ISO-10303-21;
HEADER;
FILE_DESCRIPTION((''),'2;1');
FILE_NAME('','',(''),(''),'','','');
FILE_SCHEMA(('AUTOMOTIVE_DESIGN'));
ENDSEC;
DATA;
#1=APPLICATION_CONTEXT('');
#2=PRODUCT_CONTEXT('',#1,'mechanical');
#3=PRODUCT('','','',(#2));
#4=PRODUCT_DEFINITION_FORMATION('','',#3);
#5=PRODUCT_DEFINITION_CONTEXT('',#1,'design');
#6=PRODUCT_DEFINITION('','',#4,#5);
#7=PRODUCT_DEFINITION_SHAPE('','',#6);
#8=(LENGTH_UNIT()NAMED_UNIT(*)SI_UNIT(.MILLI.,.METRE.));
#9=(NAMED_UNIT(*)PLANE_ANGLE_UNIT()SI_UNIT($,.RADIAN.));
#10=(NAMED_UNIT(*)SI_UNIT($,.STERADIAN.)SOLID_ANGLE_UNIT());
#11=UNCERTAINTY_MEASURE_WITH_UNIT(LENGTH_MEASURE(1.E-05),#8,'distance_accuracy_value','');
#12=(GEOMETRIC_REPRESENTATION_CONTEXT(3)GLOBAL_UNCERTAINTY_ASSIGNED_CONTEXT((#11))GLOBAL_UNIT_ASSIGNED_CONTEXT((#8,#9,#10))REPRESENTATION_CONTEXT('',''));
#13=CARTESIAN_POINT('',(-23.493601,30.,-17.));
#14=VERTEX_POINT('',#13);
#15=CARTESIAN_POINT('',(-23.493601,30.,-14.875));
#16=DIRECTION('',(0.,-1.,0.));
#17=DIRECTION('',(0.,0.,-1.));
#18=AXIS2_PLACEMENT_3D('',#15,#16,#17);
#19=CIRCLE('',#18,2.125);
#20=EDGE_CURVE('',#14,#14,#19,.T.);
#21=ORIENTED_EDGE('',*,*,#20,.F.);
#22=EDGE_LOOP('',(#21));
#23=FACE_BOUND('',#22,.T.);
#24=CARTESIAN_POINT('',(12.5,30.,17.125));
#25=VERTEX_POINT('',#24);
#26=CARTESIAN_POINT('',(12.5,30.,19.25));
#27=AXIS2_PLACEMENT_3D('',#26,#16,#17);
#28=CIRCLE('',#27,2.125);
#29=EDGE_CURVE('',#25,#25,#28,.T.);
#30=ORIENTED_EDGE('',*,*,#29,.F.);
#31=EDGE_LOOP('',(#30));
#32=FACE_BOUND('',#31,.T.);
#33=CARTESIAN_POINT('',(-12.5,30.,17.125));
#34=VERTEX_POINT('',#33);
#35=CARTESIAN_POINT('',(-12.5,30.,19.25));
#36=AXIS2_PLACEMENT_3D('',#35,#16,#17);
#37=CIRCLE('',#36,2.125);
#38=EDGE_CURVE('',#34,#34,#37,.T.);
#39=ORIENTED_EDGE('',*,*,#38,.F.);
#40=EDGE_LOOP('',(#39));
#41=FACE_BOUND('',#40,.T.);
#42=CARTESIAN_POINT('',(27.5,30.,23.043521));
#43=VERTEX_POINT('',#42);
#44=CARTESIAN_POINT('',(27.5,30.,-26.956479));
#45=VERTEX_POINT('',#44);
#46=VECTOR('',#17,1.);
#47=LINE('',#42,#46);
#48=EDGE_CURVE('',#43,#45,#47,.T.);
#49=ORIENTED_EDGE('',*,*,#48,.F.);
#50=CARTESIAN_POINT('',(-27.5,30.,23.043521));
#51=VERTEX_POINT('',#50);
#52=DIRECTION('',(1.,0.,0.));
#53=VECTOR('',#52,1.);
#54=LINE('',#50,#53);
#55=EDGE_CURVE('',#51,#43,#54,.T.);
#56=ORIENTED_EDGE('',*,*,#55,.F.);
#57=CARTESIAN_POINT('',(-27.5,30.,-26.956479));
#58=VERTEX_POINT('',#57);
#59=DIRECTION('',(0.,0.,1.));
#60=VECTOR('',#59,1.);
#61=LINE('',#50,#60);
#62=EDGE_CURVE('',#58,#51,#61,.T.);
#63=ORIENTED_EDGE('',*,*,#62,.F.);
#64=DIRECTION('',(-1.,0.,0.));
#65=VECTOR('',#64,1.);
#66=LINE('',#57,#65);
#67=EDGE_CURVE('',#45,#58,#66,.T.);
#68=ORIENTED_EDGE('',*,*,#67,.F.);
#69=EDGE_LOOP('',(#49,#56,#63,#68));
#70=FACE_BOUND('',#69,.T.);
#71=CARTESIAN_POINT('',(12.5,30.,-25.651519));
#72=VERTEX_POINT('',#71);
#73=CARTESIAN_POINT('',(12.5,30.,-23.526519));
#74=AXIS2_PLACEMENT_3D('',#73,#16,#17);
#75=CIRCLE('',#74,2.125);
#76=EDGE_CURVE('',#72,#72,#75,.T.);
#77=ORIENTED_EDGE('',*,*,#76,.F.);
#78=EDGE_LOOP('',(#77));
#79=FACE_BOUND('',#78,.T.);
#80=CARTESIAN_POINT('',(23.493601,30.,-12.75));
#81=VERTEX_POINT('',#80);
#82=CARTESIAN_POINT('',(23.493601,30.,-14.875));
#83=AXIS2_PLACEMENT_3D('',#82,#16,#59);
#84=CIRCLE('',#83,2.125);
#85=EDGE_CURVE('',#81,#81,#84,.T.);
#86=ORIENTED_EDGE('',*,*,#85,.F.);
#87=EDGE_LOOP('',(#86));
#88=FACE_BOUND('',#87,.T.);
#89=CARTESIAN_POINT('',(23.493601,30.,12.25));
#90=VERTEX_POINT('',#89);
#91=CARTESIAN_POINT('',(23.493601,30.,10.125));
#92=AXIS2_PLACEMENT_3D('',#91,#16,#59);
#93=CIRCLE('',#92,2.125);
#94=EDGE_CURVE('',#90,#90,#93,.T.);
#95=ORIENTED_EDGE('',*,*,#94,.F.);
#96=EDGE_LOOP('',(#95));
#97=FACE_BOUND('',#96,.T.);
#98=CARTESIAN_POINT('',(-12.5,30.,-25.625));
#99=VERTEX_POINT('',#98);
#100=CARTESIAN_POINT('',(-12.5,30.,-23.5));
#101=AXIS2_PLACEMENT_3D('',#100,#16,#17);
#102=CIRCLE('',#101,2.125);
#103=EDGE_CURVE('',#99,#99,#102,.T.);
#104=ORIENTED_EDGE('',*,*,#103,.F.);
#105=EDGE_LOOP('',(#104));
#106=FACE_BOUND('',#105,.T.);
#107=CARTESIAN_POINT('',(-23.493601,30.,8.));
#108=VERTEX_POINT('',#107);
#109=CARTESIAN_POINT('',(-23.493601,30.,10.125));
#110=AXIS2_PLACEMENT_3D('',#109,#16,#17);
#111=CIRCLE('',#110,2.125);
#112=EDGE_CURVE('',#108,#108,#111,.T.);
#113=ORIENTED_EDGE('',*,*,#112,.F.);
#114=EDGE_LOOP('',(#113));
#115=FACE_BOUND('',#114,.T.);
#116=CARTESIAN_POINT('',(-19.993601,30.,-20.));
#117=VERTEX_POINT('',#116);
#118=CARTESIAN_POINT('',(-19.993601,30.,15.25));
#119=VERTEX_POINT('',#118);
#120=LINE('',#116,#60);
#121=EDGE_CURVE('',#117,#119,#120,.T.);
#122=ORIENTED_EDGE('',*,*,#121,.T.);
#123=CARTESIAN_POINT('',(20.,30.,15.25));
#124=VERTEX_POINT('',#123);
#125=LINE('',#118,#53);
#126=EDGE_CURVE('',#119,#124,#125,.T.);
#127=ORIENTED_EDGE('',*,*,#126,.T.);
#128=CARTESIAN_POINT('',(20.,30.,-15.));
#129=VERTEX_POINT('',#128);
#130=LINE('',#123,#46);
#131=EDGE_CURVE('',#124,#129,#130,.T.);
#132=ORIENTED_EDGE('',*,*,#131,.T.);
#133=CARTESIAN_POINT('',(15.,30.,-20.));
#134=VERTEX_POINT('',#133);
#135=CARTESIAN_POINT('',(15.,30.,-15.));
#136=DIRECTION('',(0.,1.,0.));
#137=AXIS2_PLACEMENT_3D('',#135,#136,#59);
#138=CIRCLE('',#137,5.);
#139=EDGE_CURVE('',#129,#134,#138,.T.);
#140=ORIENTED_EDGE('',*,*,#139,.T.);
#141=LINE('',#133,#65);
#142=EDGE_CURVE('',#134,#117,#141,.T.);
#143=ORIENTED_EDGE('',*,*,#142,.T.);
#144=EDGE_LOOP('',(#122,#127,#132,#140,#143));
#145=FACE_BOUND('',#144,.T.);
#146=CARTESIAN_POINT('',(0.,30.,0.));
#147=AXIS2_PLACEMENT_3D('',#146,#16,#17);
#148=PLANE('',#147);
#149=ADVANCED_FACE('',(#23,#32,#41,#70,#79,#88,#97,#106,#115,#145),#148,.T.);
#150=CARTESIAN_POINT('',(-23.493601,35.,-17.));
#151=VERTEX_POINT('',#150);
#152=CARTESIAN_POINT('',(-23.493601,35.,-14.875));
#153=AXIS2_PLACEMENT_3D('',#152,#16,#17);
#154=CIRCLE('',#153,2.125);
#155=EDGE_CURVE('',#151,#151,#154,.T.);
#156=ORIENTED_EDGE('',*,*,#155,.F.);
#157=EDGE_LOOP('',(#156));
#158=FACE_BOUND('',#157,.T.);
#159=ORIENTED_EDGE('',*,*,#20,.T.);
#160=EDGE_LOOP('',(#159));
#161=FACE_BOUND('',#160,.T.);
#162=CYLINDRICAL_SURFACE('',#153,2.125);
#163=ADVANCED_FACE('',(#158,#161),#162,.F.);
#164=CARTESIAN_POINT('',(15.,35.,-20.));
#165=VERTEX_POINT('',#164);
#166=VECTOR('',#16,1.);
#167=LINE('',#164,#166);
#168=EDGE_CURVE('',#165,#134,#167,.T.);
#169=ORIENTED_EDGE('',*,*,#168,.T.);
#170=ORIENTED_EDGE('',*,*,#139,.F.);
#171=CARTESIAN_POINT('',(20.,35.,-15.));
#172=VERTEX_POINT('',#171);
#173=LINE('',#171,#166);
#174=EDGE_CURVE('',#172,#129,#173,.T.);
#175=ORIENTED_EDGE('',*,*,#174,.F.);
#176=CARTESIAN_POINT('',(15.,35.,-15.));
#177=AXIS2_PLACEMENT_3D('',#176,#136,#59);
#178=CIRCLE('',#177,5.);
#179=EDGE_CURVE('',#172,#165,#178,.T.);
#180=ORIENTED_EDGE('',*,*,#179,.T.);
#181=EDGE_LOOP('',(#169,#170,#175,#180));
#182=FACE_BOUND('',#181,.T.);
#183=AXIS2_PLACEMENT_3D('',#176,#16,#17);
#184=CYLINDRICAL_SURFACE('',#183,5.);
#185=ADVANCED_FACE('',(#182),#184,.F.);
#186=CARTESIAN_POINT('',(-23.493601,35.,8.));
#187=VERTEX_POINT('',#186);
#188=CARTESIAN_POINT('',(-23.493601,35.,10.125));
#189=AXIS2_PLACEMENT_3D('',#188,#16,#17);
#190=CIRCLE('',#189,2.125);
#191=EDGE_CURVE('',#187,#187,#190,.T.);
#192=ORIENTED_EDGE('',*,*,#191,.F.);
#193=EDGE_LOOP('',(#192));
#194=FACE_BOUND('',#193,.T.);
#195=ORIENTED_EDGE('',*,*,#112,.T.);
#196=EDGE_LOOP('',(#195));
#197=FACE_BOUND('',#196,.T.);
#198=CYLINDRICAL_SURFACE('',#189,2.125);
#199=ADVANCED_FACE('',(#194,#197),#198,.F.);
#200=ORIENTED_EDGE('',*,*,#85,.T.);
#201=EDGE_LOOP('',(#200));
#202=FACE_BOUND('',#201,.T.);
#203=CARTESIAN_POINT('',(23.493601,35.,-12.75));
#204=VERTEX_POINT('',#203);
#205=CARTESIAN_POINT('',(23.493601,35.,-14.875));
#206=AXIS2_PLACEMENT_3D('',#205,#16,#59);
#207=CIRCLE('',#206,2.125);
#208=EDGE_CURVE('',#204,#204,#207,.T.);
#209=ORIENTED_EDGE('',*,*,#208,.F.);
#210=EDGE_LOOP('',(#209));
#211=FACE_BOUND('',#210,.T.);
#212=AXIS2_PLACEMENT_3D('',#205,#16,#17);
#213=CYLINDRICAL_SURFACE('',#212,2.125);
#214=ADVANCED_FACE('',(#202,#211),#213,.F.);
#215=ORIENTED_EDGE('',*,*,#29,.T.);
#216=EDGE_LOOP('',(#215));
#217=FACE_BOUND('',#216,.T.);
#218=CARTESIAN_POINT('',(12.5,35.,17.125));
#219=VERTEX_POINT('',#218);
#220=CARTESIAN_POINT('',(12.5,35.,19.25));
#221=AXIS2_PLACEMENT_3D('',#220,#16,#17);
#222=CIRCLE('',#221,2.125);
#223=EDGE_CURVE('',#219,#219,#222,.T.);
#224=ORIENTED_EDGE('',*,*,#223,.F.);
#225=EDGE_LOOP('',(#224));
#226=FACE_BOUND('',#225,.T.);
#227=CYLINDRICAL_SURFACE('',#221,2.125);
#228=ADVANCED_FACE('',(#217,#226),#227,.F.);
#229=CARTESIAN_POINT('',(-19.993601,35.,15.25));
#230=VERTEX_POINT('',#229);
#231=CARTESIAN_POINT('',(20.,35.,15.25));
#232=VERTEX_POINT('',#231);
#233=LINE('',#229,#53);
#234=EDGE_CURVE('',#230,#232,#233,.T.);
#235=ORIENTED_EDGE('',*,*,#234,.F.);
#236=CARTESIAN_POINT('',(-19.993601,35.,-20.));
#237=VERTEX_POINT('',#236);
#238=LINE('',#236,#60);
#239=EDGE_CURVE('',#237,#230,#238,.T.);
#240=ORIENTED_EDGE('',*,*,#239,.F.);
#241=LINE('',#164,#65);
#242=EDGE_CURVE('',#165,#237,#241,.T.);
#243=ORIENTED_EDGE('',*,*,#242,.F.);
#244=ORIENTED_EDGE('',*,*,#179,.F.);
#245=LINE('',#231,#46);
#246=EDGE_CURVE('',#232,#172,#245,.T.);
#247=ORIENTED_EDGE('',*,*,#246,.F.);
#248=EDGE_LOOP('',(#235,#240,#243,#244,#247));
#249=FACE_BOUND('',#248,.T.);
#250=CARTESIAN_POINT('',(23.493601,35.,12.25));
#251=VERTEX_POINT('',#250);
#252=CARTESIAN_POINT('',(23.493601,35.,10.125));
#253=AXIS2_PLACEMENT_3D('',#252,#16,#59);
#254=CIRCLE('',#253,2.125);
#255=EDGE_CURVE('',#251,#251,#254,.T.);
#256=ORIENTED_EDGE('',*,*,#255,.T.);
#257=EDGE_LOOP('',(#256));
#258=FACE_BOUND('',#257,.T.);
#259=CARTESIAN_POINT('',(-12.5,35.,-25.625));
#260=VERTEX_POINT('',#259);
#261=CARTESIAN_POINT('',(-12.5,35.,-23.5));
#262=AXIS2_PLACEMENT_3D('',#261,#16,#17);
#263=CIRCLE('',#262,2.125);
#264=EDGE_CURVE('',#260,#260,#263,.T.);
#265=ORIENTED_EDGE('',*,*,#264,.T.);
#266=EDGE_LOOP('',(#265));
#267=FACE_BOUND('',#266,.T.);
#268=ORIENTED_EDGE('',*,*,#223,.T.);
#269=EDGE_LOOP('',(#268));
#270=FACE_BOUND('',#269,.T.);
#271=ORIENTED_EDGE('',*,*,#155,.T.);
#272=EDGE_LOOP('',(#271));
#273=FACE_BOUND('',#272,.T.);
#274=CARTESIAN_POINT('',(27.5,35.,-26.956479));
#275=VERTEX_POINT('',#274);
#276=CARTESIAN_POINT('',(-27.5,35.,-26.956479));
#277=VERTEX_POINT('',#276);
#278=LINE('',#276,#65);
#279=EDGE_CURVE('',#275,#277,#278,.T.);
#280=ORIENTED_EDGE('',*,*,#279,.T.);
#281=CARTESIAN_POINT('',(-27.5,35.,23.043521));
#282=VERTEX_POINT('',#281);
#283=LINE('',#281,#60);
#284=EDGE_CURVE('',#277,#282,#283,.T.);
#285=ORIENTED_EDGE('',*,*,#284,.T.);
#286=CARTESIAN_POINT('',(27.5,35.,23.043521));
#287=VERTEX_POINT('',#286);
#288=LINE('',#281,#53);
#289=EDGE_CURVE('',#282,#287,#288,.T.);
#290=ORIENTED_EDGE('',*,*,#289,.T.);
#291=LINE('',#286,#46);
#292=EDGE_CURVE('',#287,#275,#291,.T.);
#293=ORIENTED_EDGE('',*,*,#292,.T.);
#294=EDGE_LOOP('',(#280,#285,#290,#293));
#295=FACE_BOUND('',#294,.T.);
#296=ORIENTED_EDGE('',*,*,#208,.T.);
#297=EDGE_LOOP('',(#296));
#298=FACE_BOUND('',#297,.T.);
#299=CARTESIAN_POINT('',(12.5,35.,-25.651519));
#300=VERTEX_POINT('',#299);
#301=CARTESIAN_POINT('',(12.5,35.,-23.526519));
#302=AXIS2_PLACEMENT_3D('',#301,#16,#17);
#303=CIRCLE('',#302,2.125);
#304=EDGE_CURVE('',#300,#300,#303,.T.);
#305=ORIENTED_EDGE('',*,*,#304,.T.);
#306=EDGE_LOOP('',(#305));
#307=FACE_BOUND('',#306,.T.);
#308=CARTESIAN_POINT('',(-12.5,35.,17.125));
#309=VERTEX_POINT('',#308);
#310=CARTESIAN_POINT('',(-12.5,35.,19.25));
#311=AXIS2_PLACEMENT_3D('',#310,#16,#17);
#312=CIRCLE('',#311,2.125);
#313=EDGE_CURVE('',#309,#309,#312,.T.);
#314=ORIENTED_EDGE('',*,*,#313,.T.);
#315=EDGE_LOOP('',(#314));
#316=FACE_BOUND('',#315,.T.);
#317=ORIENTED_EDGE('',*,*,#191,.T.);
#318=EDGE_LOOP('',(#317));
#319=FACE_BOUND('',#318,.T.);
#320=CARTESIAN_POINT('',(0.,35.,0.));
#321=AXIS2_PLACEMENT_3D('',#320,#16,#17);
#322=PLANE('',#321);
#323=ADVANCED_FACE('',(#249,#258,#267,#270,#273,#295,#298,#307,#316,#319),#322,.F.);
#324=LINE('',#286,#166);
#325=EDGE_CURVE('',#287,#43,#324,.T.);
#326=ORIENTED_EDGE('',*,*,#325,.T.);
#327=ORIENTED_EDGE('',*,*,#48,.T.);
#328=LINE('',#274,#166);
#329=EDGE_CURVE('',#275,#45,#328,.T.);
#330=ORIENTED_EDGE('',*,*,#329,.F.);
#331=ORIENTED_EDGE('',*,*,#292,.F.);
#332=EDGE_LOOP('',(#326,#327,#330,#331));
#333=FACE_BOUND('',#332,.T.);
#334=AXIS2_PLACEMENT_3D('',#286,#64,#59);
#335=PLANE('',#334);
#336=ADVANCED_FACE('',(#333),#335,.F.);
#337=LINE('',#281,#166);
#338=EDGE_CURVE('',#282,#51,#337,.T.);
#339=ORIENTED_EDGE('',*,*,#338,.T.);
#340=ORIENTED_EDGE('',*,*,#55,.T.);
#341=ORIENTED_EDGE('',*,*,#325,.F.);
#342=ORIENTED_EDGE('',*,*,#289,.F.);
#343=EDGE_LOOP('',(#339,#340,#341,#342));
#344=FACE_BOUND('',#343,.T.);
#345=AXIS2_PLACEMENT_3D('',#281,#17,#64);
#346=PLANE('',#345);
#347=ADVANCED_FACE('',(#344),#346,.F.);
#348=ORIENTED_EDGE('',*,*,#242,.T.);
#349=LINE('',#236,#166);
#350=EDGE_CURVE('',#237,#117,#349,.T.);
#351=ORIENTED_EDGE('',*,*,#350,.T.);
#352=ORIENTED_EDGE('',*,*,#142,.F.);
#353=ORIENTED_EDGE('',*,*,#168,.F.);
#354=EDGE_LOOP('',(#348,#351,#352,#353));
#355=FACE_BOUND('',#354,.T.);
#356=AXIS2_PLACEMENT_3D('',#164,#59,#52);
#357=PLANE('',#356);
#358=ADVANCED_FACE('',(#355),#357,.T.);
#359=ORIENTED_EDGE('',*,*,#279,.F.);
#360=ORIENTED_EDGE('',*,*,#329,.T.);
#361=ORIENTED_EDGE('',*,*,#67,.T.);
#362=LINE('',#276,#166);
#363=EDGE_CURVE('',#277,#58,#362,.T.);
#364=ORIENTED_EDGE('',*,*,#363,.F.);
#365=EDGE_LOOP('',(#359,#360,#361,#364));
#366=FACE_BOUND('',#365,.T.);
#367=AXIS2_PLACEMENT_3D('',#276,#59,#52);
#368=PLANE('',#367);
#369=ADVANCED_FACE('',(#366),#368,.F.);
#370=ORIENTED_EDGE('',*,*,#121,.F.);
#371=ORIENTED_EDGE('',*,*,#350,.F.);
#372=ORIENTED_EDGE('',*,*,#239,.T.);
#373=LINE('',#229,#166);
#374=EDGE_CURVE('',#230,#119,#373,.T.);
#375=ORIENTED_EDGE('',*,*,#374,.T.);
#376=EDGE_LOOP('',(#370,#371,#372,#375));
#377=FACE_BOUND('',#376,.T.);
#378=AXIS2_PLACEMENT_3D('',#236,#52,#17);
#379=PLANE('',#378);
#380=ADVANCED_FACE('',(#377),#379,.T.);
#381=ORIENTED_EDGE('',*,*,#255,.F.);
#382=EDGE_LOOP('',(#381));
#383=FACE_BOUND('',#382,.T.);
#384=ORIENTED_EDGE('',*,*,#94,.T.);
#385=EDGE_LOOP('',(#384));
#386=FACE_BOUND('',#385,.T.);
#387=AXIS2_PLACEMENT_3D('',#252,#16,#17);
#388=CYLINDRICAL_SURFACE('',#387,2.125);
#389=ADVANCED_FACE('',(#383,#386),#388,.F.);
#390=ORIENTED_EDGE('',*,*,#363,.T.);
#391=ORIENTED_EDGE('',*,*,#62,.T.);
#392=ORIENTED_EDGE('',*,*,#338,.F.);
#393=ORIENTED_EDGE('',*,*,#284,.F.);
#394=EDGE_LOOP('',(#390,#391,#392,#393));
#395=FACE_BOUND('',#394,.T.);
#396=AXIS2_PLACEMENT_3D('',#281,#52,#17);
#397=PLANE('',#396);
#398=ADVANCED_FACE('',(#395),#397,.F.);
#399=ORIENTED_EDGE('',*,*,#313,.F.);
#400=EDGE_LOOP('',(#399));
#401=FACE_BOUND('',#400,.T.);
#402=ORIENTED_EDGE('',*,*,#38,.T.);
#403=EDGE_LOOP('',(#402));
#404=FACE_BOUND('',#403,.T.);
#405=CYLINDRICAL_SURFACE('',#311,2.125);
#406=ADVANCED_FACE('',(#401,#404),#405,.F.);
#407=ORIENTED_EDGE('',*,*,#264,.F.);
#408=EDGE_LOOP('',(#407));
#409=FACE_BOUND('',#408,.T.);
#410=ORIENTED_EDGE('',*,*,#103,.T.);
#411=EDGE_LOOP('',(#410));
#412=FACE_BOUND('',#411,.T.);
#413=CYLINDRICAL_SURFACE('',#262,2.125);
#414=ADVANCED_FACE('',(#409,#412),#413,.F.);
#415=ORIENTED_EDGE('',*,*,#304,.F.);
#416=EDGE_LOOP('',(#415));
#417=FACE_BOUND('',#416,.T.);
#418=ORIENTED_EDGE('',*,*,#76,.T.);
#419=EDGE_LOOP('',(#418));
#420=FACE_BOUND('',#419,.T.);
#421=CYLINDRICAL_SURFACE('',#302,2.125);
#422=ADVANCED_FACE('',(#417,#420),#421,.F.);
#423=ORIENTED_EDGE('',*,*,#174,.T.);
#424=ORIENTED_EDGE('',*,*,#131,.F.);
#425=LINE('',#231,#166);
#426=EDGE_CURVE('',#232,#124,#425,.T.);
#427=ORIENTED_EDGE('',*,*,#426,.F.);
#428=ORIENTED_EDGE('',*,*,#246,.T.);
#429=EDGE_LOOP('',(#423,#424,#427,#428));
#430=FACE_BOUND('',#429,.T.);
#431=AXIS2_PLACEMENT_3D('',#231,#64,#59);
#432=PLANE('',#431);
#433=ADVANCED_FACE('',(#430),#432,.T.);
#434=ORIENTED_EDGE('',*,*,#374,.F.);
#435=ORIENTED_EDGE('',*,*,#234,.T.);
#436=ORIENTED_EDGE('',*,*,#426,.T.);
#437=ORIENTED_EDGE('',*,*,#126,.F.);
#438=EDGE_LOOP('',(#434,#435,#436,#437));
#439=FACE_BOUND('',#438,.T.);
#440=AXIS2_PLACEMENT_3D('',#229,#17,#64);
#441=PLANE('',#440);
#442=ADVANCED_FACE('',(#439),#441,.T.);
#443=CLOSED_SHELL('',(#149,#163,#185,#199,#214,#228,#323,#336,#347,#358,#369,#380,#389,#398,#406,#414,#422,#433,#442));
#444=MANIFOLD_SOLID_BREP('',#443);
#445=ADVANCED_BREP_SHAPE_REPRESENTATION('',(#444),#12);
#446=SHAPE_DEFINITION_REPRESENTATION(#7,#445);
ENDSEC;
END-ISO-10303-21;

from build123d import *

# Parameters (mm, degrees)
CROQUIS1_R                              = 15.25
CROQUIS1_R_2                            = 2.125
SOPORTE_CAJA_REDUCTORA_DEPTH            = 20
CROQUIS3_R                              = 2.125
CORTAR_EXTRUIR1_DEPTH                   = 51.423828692
REDONDEO1_R                             = 5
BOSS_EXTRUDE1_DEPTH                     = 20
CUT_EXTRUDE1_REACH                      = 55.852
SKETCH2_R                               = 1.625
CUT_EXTRUDE2_DEPTH                      = 2
SKETCH4_R                               = 1.625
CUT_EXTRUDE3_DEPTH                      = 63.291652731
CUT_EXTRUDE4_START                      = -4.5
CUT_EXTRUDE4_DEPTH                      = 2
CROQUIS6_W                              = 4.75
CROQUIS6_H                              = 4.75
CORTAR_EXTRUIR17_DEPTH                  = 42.231056256
CROQUIS7_W                              = 60
CROQUIS7_H                              = 20
CORTAR_EXTRUIR18_DEPTH                  = 51.423828692
SALIENTE_EXTRUIR2_DEPTH                 = 49
SOPORTE_START                           = -15
SOPORTE_MOTOR_DEPTH                     = 15
CROQUIS12_R                             = 2.125
AGUJEROS_DE_SUJECION_A_BASE_DEPTH       = 84.087679592
TUERCA_START                            = -4
TUERCA_AGUJERO_DE_SUJECION_A_BASE_DEPTH = 10
SALIENTE_EXTRUIR4_DEPTH                 = 15
CORTAR_EXTRUIR19_DEPTH                  = 25
CROQUIS14_W                             = 50
CROQUIS14_H                             = 118
CORTAR_EXTRUIR22_DEPTH                  = 146.556045907
CROQUIS15_W                             = 10
CROQUIS15_H                             = 7
CORTAR_EXTRUIR23_DEPTH                  = 42.231056256
CORTAR_EXTRUIR24_DEPTH                  = 42.231056256
CROQUIS18_W                             = 40
CROQUIS18_H                             = 10
CORTAR_EXTRUIR25_DEPTH                  = 44.27311521
SALIENTE_EXTRUIR5_DEPTH                 = 10
CROQUIS20_R                             = 1
CORTAR_EXTRUIR26_DEPTH                  = 49.229270158
CORTAR_EXTRUIR27_REACH                  = 62.959
CORTAR_EXTRUIR27_END_RADIUS             = 15.25
CROQUIS21_R                             = 1.625
CROQUIS22_R                             = 2.125
CROQUIS22_R_2                           = 1
SALIENTE_EXTRUIR6_DEPTH                 = 10
CROQUIS23_R                             = 1.625
CORTAR_EXTRUIR28_DEPTH                  = 52.269508521
CORTAR_EXTRUIR29_START                  = -3
CORTAR_EXTRUIR29_DEPTH                  = 10
SALIENTE_EXTRUIR7_DEPTH                 = 10
CORTAR_EXTRUIR30_REACH                  = 72.235
CROQUIS27_R                             = 1.625
CORTAR_EXTRUIR31_REACH                  = 75.235
CORTAR_EXTRUIR31_START                  = -3
CORTAR_EXTRUIR32_REACH                  = 58.612
CROQUIS29_R                             = 1.625
CORTAR_EXTRUIR33_REACH                  = 61.112
CORTAR_EXTRUIR33_START                  = -2.5
CROQUIS35_W                             = 13.305418987
CROQUIS35_H                             = 6.826864192
CORTAR_EXTRUIR34_DEPTH                  = 63.931555098
CORTAR_EXTRUIR34_DEPTH_BACK             = 63.931555098
CORTAR_EXTRUIR35_START                  = -3
CORTAR_EXTRUIR35_DEPTH                  = 10
SALIENTE_EXTRUIR8_DEPTH                 = 10
SALIENTE_EXTRUIR9_DEPTH                 = 13
SALIENTE_EXTRUIR10_DEPTH                = 3
CROQUIS40_W                             = 106.583537839
CROQUIS40_H                             = 47.391515964
CORTAR_EXTRUIR36_DEPTH                  = 80.887064817
CORTAR_EXTRUIR36_DEPTH_BACK             = 80.887064817
CORTAR_EXTRUIR37_DEPTH                  = 67.2524009
CORTAR_EXTRUIR37_DEPTH_BACK             = 67.2524009
CORTAR_EXTRUIR38_DEPTH                  = 79.704784639
CORTAR_EXTRUIR38_DEPTH_BACK             = 79.704784639
SALIENTE_EXTRUIR11_DEPTH                = 10
CORTAR_EXTRUIR39_DEPTH                  = 63.9908649
CROQUIS45_W                             = 31.470301378
CROQUIS45_H                             = 10
CROQUIS45_R                             = 1.625
SALIENTE_EXTRUIR12_DEPTH                = 2.5
SALIENTE_EXTRUIR13_DEPTH                = 10
CORTAR_EXTRUIR40_START                  = -2
CROQUIS47_R                             = 1.625
CORTAR_EXTRUIR40_DEPTH                  = 10
CORTAR_EXTRUIR41_START                  = -12
CROQUIS48_R                             = 1.625
CORTAR_EXTRUIR41_DEPTH                  = 12
CROQUIS49_W                             = 34.796066513
CROQUIS49_H                             = 42.211026982
CORTAR_EXTRUIR42_DEPTH                  = 52.795622989
CORTAR_EXTRUIR42_DEPTH_BACK             = 52.795622989
CROQUIS51_R                             = 15.25
CROQUIS51_R_2                           = 14.25
SALIENTE_EXTRUIR14_DEPTH                = 10
CORTAR_EXTRUIR43_DEPTH                  = 10
CORTAR_EXTRUIR44_DEPTH                  = 10
CORTAR_EXTRUIR45_DEPTH                  = 10
SALIENTE_EXTRUIR15_DEPTH                = 10
CROQUIS56_W                             = 55
CROQUIS56_H                             = 50
SALIENTE_EXTRUIR16_DEPTH                = 5
CROQUIS57_W                             = 42.651963039
CROQUIS57_H                             = 12.802181648
CORTAR_EXTRUIR46_DEPTH                  = 71.545387859
CORTAR_EXTRUIR46_DEPTH_BACK             = 71.545387859
CROQUIS58_R                             = 2.125
CORTAR_EXTRUIR47_DEPTH                  = 5


with BuildPart() as part:
    # Croquis1 → Soporte caja reductora (new body)
    with BuildSketch(Plane(origin=(0, 0, 0), x_dir=(1, 0, 0), z_dir=(0, 1, 0))):
        Polygon((-30, -15.25), (-20, -15.25), (-20, -20), (20, -20), (20, -15.25), (30, -15.25), (30, -7.25), (20, -4.25), (20, 20), (-20, 20), (-20, -4.25), (-30, -7.25), align=None)
        with Locations(Location((0, 0, 0), (0, 0, 270))):
            Circle(CROQUIS1_R, mode=Mode.SUBTRACT)
        with Locations(Location((-15, 15, 0), (0, 0, 270))):
            Circle(CROQUIS1_R_2, mode=Mode.SUBTRACT)
        with Locations(Location((15, 15, 0), (0, 0, 270))):
            Circle(CROQUIS1_R_2, mode=Mode.SUBTRACT)
    extrude(amount=-SOPORTE_CAJA_REDUCTORA_DEPTH)

    # Croquis3 → Cortar-Extruir1 (cut, through all)
    with BuildSketch(Plane.XY.offset(15.25)):
        with Locations((-23.5, -10)):
            Circle(CROQUIS3_R)
        with Locations((23.5, -10)):
            Circle(CROQUIS3_R)
    extrude(amount=-CORTAR_EXTRUIR1_DEPTH, mode=Mode.SUBTRACT)

    # Redondeo1
    redondeo1_edges = [part.edges().sort_by_distance(p)[0] for p in [
        (-20, -10, -20),
        (20, -10, -20),
    ]]
    fillet(redondeo1_edges, radius=REDONDEO1_R)

    # Sketch1 → Boss-Extrude1 (add)
    with BuildSketch(Plane(origin=(0, 0, 0), x_dir=(1, 0, 0), z_dir=(0, 1, 0))):
        with BuildLine():
            Line((25.5, 15), (20, 15))
            ThreePointArc((20, 15), (18.535533906, 18.535533906), (15, 20))
            Line((15, 20), (30, 20))
            Line((30, 20), (30, 8))
            Line((30, 8), (25.5, 8))
            Line((25.5, 8), (25.5, 15))
        make_face()
    extrude(amount=-BOSS_EXTRUDE1_DEPTH)

    # Sketch2 → Cut-Extrude1 (cut, up to next)
    with BuildSketch(Plane(origin=(0, 0, -20), x_dir=(-1, 0, 0), z_dir=(0, 0, -1)), mode=Mode.PRIVATE) as cut_extrude1_sk1:
        with Locations((-22.75, -10)):
            Circle(SKETCH2_R)
    cut_extrude1_tool1 = extrude(cut_extrude1_sk1.sketch, amount=-CUT_EXTRUDE1_REACH, mode=Mode.PRIVATE) & part.part
    add(cut_extrude1_tool1.solids().sort_by_distance((22.75, -10, -20))[0], mode=Mode.SUBTRACT)

    # Sketch3 → Cut-Extrude2 (cut)
    with BuildSketch(Plane.XY.offset(-15)):
        Polygon((20, -11.58771324), (22.75, -13.175426481), (25.5, -11.58771324), (25.5, -8.41228676), (22.75, -6.824573519), (20, -8.41228676), align=None)
    extrude(amount=-CUT_EXTRUDE2_DEPTH, mode=Mode.SUBTRACT)

    # Sketch4 → Cut-Extrude3 (cut, through all)
    with BuildSketch(Plane.ZY.offset(-25.5)):
        with Locations((-12.25, -10)):
            Circle(SKETCH4_R)
    extrude(amount=-CUT_EXTRUDE3_DEPTH, mode=Mode.SUBTRACT)

    # Sketch5 → Cut-Extrude4 (cut)
    with BuildSketch(Plane(origin=(30, 0, 0), x_dir=(0, 0, -1), z_dir=(1, 0, 0)).offset(CUT_EXTRUDE4_START)):
        Polygon((15, -11.58771324), (15, -8.41228676), (12.25, -6.824573519), (9.5, -8.41228676), (9.5, -11.58771324), (12.25, -13.175426481), align=None)
    extrude(amount=CUT_EXTRUDE4_DEPTH, mode=Mode.SUBTRACT)

    # Croquis6 → Cortar-Extruir17 (cut, through all)
    with BuildSketch(Plane(origin=(0, 0, 0), x_dir=(1, 0, 0), z_dir=(0, 1, 0))):
        Polygon((0, -15.25), (-15.25, -15.25), (-15.25, -20), (15.25, -20), (15.25, -15.25), align=None)
        with Locations((-17.625, -17.625)):
            Rectangle(CROQUIS6_W, CROQUIS6_H)
        with BuildLine():
            ThreePointArc((0, -15.25), (-10.783378413, -10.783378413), (-15.25, 0))
            Line((-15.25, 0), (-15.25, -15.25))
            Line((-15.25, -15.25), (0, -15.25))
        make_face()
        with BuildLine():
            Line((15.25, -15.25), (15.25, 0))
            ThreePointArc((15.25, 0), (10.783378413, -10.783378413), (0, -15.25))
            Line((0, -15.25), (15.25, -15.25))
        make_face()
        with Locations((17.625, -17.625)):
            Rectangle(CROQUIS6_W, CROQUIS6_H)
    extrude(amount=-CORTAR_EXTRUIR17_DEPTH, mode=Mode.SUBTRACT)


with BuildPart() as body_2:
    # Simetría1: mirrored copy
    add(part.part.mirror(Plane.ZX))

    # Croquis8 → Saliente-Extruir2 (add)
    with BuildSketch(Plane(origin=(0, 20, 0), x_dir=(1, 0, 0), z_dir=(0, 1, 0))):
        with BuildLine():
            Line((-12.664515522, 20), (-11.040489496, 13.939052358))
            Line((-11.040489496, 13.939052358), (-10.315162126, 11.232093763))
            ThreePointArc((-10.315162126, 11.232093763), (0, 15.25), (10.315162126, 11.232093763))
            Line((10.315162126, 11.232093763), (10.817418481, 13.87928066))
            Line((10.817418481, 13.87928066), (11.978715476, 20))
            Line((11.978715476, 20), (-12.664515522, 20))
        make_face()
    extrude(amount=SALIENTE_EXTRUIR2_DEPTH)

    # Croquis9 → Soporte motor (add)
    with BuildSketch(Plane(origin=(0, 69, 0), x_dir=(1, 0, 0), z_dir=(0, 1, 0)).offset(SOPORTE_START)):
        with BuildLine():
            Line((-20, 15), (-20, -4.25))
            Line((-20, -4.25), (-30, -7.25))
            Line((-30, -7.25), (-30, -15.25))
            Line((-30, -15.25), (0, -15.25))
            Line((0, -15.25), (0, -14.75))
            ThreePointArc((0, -14.75), (-10.429825023, 10.429825023), (14.75, 0))
            Line((14.75, 0), (20, 0))
            Line((20, 0), (20, 13.936837101))
            Line((20, 13.936837101), (12.664515522, 20))
            Line((12.664515522, 20), (-15, 20))
            ThreePointArc((-15, 20), (-18.535533906, 18.535533906), (-20, 15))
        make_face()
    extrude(amount=-SOPORTE_MOTOR_DEPTH)

    # Croquis12 → Agujeros de sujecion a base (cut, through all)
    with BuildSketch(Plane.XY.offset(15.25)):
        with Locations((-23.5, 46.5)):
            Circle(CROQUIS12_R)
    extrude(amount=-AGUJEROS_DE_SUJECION_A_BASE_DEPTH, mode=Mode.SUBTRACT)

    # Croquis13 → Tuerca Agujero de sujecion a base (cut)
    with BuildSketch(Plane.XY.offset(15.25).offset(TUERCA_START)):
        Polygon((-20, 44.479274058), (-20, 48.520725942), (-23.5, 50.541451884), (-27, 48.520725942), (-27, 44.479274058), (-23.5, 42.458548116), align=None)
    extrude(amount=-TUERCA_AGUJERO_DE_SUJECION_A_BASE_DEPTH, mode=Mode.SUBTRACT)

    # Croquis10 → Saliente-Extruir4 (add)
    with BuildSketch(Plane(origin=(0, 69, 0), x_dir=(1, 0, 0), z_dir=(0, 1, 0))):
        with BuildLine():
            ThreePointArc((10.315162126, 11.232093763), (0, 15.25), (-10.315162126, 11.232093763))
            Line((-10.315162126, 11.232093763), (-10.16850369, 10.684757026))
            ThreePointArc((-10.16850369, 10.684757026), (0, 14.75), (10.16850369, 10.684757026))
            Line((10.16850369, 10.684757026), (10.315162126, 11.232093763))
        make_face()
    extrude(amount=-SALIENTE_EXTRUIR4_DEPTH)

    # Croquis11 → Cortar-Extruir19 (cut)
    with BuildSketch(Plane.XZ):
        with BuildLine():
            Line((15.25, 4.25), (20, 4.25))
            Line((20, 4.25), (21.972856468, 4.84185694))
            ThreePointArc((21.972856468, 4.84185694), (19.948931102, 10.40625523), (16.543503257, 15.25))
            Line((16.543503257, 15.25), (15.25, 15.25))
            Line((15.25, 15.25), (15.25, 4.25))
        make_face()
        with BuildLine():
            Line((21.972856468, 4.84185694), (30, 7.25))
            Line((30, 7.25), (30, 15.25))
            Line((30, 15.25), (16.543503257, 15.25))
            ThreePointArc((16.543503257, 15.25), (19.948931102, 10.40625523), (21.972856468, 4.84185694))
        make_face()
        with BuildLine():
            ThreePointArc((20, -15), (18.535533906, -18.535533906), (15, -20))
            Line((15, -20), (30, -20))
            Line((30, -20), (30, -8))
            Line((30, -8), (25.5, -8))
            Line((25.5, -8), (25.5, -15))
            Line((25.5, -15), (20, -15))
        make_face()
    extrude(amount=-CORTAR_EXTRUIR19_DEPTH, mode=Mode.SUBTRACT)

    # Simetría2: body 2 across face


with BuildPart() as part_1:
    add(part.part)

    # Croquis7 → Cortar-Extruir18 (cut, through all)
    with BuildSketch(Plane(origin=(0, 0, -20), x_dir=(-1, 0, 0), z_dir=(0, 0, -1))):
        with Locations((0, -10)):
            Rectangle(CROQUIS7_W, CROQUIS7_H)
    extrude(amount=-CORTAR_EXTRUIR18_DEPTH, mode=Mode.SUBTRACT)


with BuildPart() as body_2_1:
    add(body_2.part)
    add(body_2.part.mirror(Plane(origin=(-0.229209569, 69, -16.663998028), x_dir=(0, 0, 1), z_dir=(0, 1, 0))))

    # Croquis14 → Cortar-Extruir22 (cut, through all)
    with BuildSketch(Plane.XY.offset(15.25)):
        with Locations((-5, 79)):
            Rectangle(CROQUIS14_W, CROQUIS14_H)
    extrude(amount=-CORTAR_EXTRUIR22_DEPTH, mode=Mode.SUBTRACT)

    # Croquis15 → Cortar-Extruir23 (cut, through all)
    with BuildSketch(Plane.XZ):
        with Locations((-25, 7.75)):
            Rectangle(CROQUIS15_W, CROQUIS15_H)
    extrude(amount=-CORTAR_EXTRUIR23_DEPTH, mode=Mode.SUBTRACT)

    # Croquis16 → Cortar-Extruir24 (cut, through all)
    with BuildSketch(Plane.XZ):
        Polygon((-30, 15.25), (-15.25, 15.25), (-15.25, 12.75), (-20, 12.75), (-20, 11.25), (-30, 11.25), (-30, 12.75), align=None)
    extrude(amount=-CORTAR_EXTRUIR24_DEPTH, mode=Mode.SUBTRACT)

    # Croquis18 → Cortar-Extruir25 (cut, through all)
    with BuildSketch(Plane(origin=(0, 0, -20), x_dir=(-1, 0, 0), z_dir=(0, 0, -1))):
        with Locations((0, 5)):
            Rectangle(CROQUIS18_W, CROQUIS18_H)
    extrude(amount=-CORTAR_EXTRUIR25_DEPTH, mode=Mode.SUBTRACT)

    # Croquis19 → Saliente-Extruir5 (add)
    with BuildSketch(Plane(origin=(0, 20, 0), x_dir=(1, 0, 0), z_dir=(0, 1, 0))):
        Polygon((-20, -12.75), (-34, -12.75), (-34, -7.75), (-24, -7.75), (-20, -3.75), align=None)
    extrude(amount=-SALIENTE_EXTRUIR5_DEPTH)

    # Croquis20 → Cortar-Extruir26 (cut, through all)
    with BuildSketch(Plane(origin=(0, 0, 7.75), x_dir=(-1, 0, 0), z_dir=(0, 0, -1))):
        with Locations((29, 15)):
            Circle(CROQUIS20_R)
    extrude(amount=-CORTAR_EXTRUIR26_DEPTH, mode=Mode.SUBTRACT)

    # Cortar-Extruir27: up to this cylinder (the profile starts outside it)
    cortar_extruir27_end = Plane(origin=(0, 15, 0), z_dir=(0, -1, 0)) * Cylinder(CORTAR_EXTRUIR27_END_RADIUS, 157.418, mode=Mode.PRIVATE)
    # Croquis21 → Cortar-Extruir27 (cut, up to the surface)
    with BuildSketch(Plane(origin=(20, 0, 0), x_dir=(0, 0, -1), z_dir=(1, 0, 0)), mode=Mode.PRIVATE) as cortar_extruir27_sk1:
        with Locations((4.75, 15)):
            Circle(CROQUIS21_R)
    cortar_extruir27_tool1 = extrude(cortar_extruir27_sk1.sketch, amount=-CORTAR_EXTRUIR27_REACH, mode=Mode.PRIVATE) - cortar_extruir27_end
    add(cortar_extruir27_tool1.solids().sort_by_distance((20, 15, -4.75))[0], mode=Mode.SUBTRACT)

    # Croquis22 → Saliente-Extruir6 (add)
    with BuildSketch(Plane.XZ.offset(-10)):
        with Locations((-15, -15)):
            Circle(CROQUIS22_R)
        with Locations(Location((-15, -15, 0), (0, 0, 270))):
            Circle(CROQUIS22_R_2, mode=Mode.SUBTRACT)
        with Locations((15, -15)):
            Circle(CROQUIS22_R)
        with Locations(Location((15, -15, 0), (0, 0, 270))):
            Circle(CROQUIS22_R_2, mode=Mode.SUBTRACT)
    extrude(amount=-SALIENTE_EXTRUIR6_DEPTH)

    # Croquis23 → Cortar-Extruir28 (cut, through all)
    with BuildSketch(Plane(origin=(0, 0, -20), x_dir=(-1, 0, 0), z_dir=(0, 0, -1))):
        with Locations((0, 15)):
            Circle(CROQUIS23_R)
    extrude(amount=-CORTAR_EXTRUIR28_DEPTH, mode=Mode.SUBTRACT)

    # Croquis24 → Cortar-Extruir29 (cut)
    with BuildSketch(Plane(origin=(0, 0, -20), x_dir=(-1, 0, 0), z_dir=(0, 0, -1)).offset(CORTAR_EXTRUIR29_START)):
        Polygon((1.58771324, 12.25), (3.175426481, 15), (1.58771324, 17.75), (-1.58771324, 17.75), (-3.175426481, 15), (-1.58771324, 12.25), align=None)
    extrude(amount=-CORTAR_EXTRUIR29_DEPTH, mode=Mode.SUBTRACT)

    # Croquis26 → Saliente-Extruir7 (add)
    with BuildSketch(Plane.XZ.offset(-10)):
        Polygon((-34, 7.75), (-34, 12.75), (-58.825, 12.75), (-39.160527763, -4.104491148), (-20, -4.104491148), (-20, -0.104491148), (-35.732113118, -0.104491148), (-29, 7.75), align=None)
        Polygon((-34.268209086, 7.75), (-39.594516123, 1.535690951), (-46.844874897, 7.75), align=None, mode=Mode.SUBTRACT)
    extrude(amount=-SALIENTE_EXTRUIR7_DEPTH)

    # Croquis27 → Cortar-Extruir30 (cut, up to next)
    with BuildSketch(Plane.XY.offset(12.75), mode=Mode.PRIVATE) as cortar_extruir30_sk1:
        with Locations((-40.544874897, 15)):
            Circle(CROQUIS27_R)
    cortar_extruir30_tool1 = extrude(cortar_extruir30_sk1.sketch, amount=-CORTAR_EXTRUIR30_REACH, mode=Mode.PRIVATE) & body_2_1.part
    # Croquis27 → Cortar-Extruir30 (cut, up to next)
    with BuildSketch(Plane.XY.offset(12.75), mode=Mode.PRIVATE) as cortar_extruir30_sk2:
        with Locations((-29, 15)):
            Circle(CROQUIS27_R)
    cortar_extruir30_tool2 = extrude(cortar_extruir30_sk2.sketch, amount=-CORTAR_EXTRUIR30_REACH, mode=Mode.PRIVATE) & body_2_1.part
    add(cortar_extruir30_tool1.solids().sort_by_distance((-40.544875, 15, 12.75))[0], mode=Mode.SUBTRACT)
    add(cortar_extruir30_tool2.solids().sort_by_distance((-29, 15, 12.75))[0], mode=Mode.SUBTRACT)

    # Croquis28 → Cortar-Extruir31 (cut, up to next)
    with BuildSketch(Plane.XY.offset(12.75).offset(CORTAR_EXTRUIR31_START), mode=Mode.PRIVATE) as cortar_extruir31_sk1:
        Polygon((-38.957161657, 12.25), (-37.369448416, 15), (-38.957161657, 17.75), (-42.132588137, 17.75), (-43.720301378, 15), (-42.132588137, 12.25), align=None)
    cortar_extruir31_tool1 = extrude(cortar_extruir31_sk1.sketch, amount=-CORTAR_EXTRUIR31_REACH, mode=Mode.PRIVATE) & body_2_1.part
    # Croquis28 → Cortar-Extruir31 (cut, up to next)
    with BuildSketch(Plane.XY.offset(12.75).offset(CORTAR_EXTRUIR31_START), mode=Mode.PRIVATE) as cortar_extruir31_sk2:
        Polygon((-27.41228676, 12.25), (-25.824573519, 15), (-27.41228676, 17.75), (-30.58771324, 17.75), (-32.175426481, 15), (-30.58771324, 12.25), align=None)
    cortar_extruir31_tool2 = extrude(cortar_extruir31_sk2.sketch, amount=-CORTAR_EXTRUIR31_REACH, mode=Mode.PRIVATE) & body_2_1.part
    add(cortar_extruir31_tool1.solids().sort_by_distance((-40.544875, 15, 9.75))[0], mode=Mode.SUBTRACT)
    add(cortar_extruir31_tool2.solids().sort_by_distance((-29, 15, 9.75))[0], mode=Mode.SUBTRACT)

    # Croquis29 → Cortar-Extruir32 (cut, up to next)
    with BuildSketch(Plane(origin=(-18.612848159, 0, -21.715982563), x_dir=(-0.7592713073348843, 0, 0.6507742172658468), z_dir=(-0.6507742172658468, 0, -0.7592713073348843)), mode=Mode.PRIVATE) as cortar_extruir32_sk1:
        with Locations((33.812368097, 15)):
            Circle(CROQUIS29_R)
    cortar_extruir32_tool1 = extrude(cortar_extruir32_sk1.sketch, amount=-CORTAR_EXTRUIR32_REACH, mode=Mode.PRIVATE) & body_2_1.part
    add(cortar_extruir32_tool1.solids().sort_by_distance((-44.285609, 15, 0.288235))[0], mode=Mode.SUBTRACT)

    # Croquis31 → Cortar-Extruir33 (cut, up to next)
    with BuildSketch(Plane(origin=(-18.612848159, 0, -21.715982563), x_dir=(-0.7592713073348843, 0, 0.6507742172658468), z_dir=(-0.6507742172658468, 0, -0.7592713073348843)).offset(CORTAR_EXTRUIR33_START), mode=Mode.PRIVATE) as cortar_extruir33_sk1:
        Polygon((36.562368097, 16.58771324), (33.812368097, 18.175426481), (31.062368097, 16.58771324), (31.062368097, 13.41228676), (33.812368097, 11.824573519), (36.562368097, 13.41228676), align=None)
    cortar_extruir33_tool1 = extrude(cortar_extruir33_sk1.sketch, amount=-CORTAR_EXTRUIR33_REACH, mode=Mode.PRIVATE) & body_2_1.part
    add(cortar_extruir33_tool1.solids().sort_by_distance((-42.658674, 15, 2.186413))[0], mode=Mode.SUBTRACT)

    # Croquis35 → Cortar-Extruir34 (cut, two sides)
    with BuildSketch(Plane(origin=(0, 20, 0), x_dir=(1, 0, 0), z_dir=(0, 1, 0))) as cortar_extruir34_sk:
        with Locations((17.04227466, -3.413432096)):
            Rectangle(CROQUIS35_W, CROQUIS35_H)
    extrude(amount=CORTAR_EXTRUIR34_DEPTH, mode=Mode.SUBTRACT)
    extrude(cortar_extruir34_sk.sketch, amount=-CORTAR_EXTRUIR34_DEPTH_BACK, mode=Mode.SUBTRACT)

    # Croquis36 → Cortar-Extruir35 (cut)
    with BuildSketch(Plane(origin=(20, 0, 0), x_dir=(0, 0, -1), z_dir=(1, 0, 0)).offset(CORTAR_EXTRUIR35_START)):
        Polygon((7.5, 16.58771324), (4.75, 18.175426481), (2, 16.58771324), (2, 13.41228676), (4.75, 11.824573519), (7.5, 13.41228676), align=None)
    extrude(amount=-CORTAR_EXTRUIR35_DEPTH, mode=Mode.SUBTRACT)

    # Croquis37 → Saliente-Extruir8 (add)
    with BuildSketch(Plane.XZ.offset(-10)):
        Polygon((-39.160527763, -4.104491148), (-20.614919368, -20), (-15, -20), (-19.558128305, -15.637570403), (-33.014002756, -4.104491148), align=None)
    extrude(amount=-SALIENTE_EXTRUIR8_DEPTH)

    # Croquis38 → Saliente-Extruir9 (add)
    with BuildSketch(Plane.XZ.offset(-10)):
        Polygon((-58.825, 12.75), (-38.825, 12.75), (-38.825, 9.75), (-55.324839942, 9.75), align=None)
    extrude(amount=SALIENTE_EXTRUIR9_DEPTH)

    # Croquis39 → Saliente-Extruir10 (add)
    with BuildSketch(Plane.XZ.offset(-10)):
        Polygon((-38.825, 9.75), (-38.825, 7.75), (-38.825, 5.75), (-50.657959865, 5.75), (-52.991399903, 7.75), (-55.324839942, 9.75), align=None)
    extrude(amount=SALIENTE_EXTRUIR10_DEPTH)

    # Simetría3: body 2 across face


with BuildPart() as body_2_2:
    add(body_2_1.part)
    add(body_2_1.part.mirror(Plane(origin=(-18.003999227, 20, -4.220503046), x_dir=(0, 0, 1), z_dir=(0, 1, 0))))

    # Croquis40 → Cortar-Extruir36 (cut, two sides)
    with BuildSketch(Plane(origin=(0, 0, -20), x_dir=(-1, 0, 0), z_dir=(0, 0, -1))) as cortar_extruir36_sk:
        with Locations((22.395502026, -3.695757982)):
            Rectangle(CROQUIS40_W, CROQUIS40_H)
    extrude(amount=CORTAR_EXTRUIR36_DEPTH, mode=Mode.SUBTRACT)
    extrude(cortar_extruir36_sk.sketch, amount=-CORTAR_EXTRUIR36_DEPTH_BACK, mode=Mode.SUBTRACT)

    # Croquis41 → Cortar-Extruir37 (cut, two sides)
    with BuildSketch(Plane.XZ.offset(-20)) as cortar_extruir37_sk:
        Polygon((-19.992980133, -22.302484261), (-20, 3.75), (-24, 7.75), (-56.035110209, 7.75), align=None)
    extrude(amount=CORTAR_EXTRUIR37_DEPTH, mode=Mode.SUBTRACT)
    extrude(cortar_extruir37_sk.sketch, amount=-CORTAR_EXTRUIR37_DEPTH_BACK, mode=Mode.SUBTRACT)

    # Croquis42 → Cortar-Extruir38 (cut, two sides)
    with BuildSketch(Plane(origin=(0, 0, 9.75), x_dir=(-1, 0, 0), z_dir=(0, 0, -1))) as cortar_extruir38_sk:
        Polygon((46.720301378, 20), (46.720301378, 30), (38.825, 30), (33.492952769, 43.760628779), (49.525340398, 48.951442806), (67.200390695, 42.512205152), (65.906601328, 20), (51.713995885, 13.864168239), align=None)
    extrude(amount=CORTAR_EXTRUIR38_DEPTH, mode=Mode.SUBTRACT)
    extrude(cortar_extruir38_sk.sketch, amount=-CORTAR_EXTRUIR38_DEPTH_BACK, mode=Mode.SUBTRACT)

    # Croquis43 → Saliente-Extruir11 (add)
    with BuildSketch(Plane.XZ.offset(-20)):
        Polygon((-19.993600539, -20), (-46.720301378, 7.75), (-43.839252857, 10.524807997), (-17.112552018, -17.225192003), align=None)
    extrude(amount=-SALIENTE_EXTRUIR11_DEPTH)

    # Croquis44 → Cortar-Extruir39 (cut, through all)
    with BuildSketch(Plane(origin=(0, 0, 9.75), x_dir=(-1, 0, 0), z_dir=(0, 0, -1))):
        Polygon((38.957161657, 27.75), (37.369448416, 25), (38.957161657, 22.25), (42.132588137, 22.25), (43.720301378, 25), (42.132588137, 27.75), align=None)
    extrude(amount=CORTAR_EXTRUIR39_DEPTH, mode=Mode.SUBTRACT)

    # Croquis45 → Saliente-Extruir12 (add)
    with BuildSketch(Plane.XY.offset(12.75)):
        with Locations((-30.985150689, 25)):
            Rectangle(CROQUIS45_W, CROQUIS45_H)
        with Locations((-40.544874897, 25)):
            Circle(CROQUIS45_R, mode=Mode.SUBTRACT)
        with Locations((-29, 25)):
            Circle(CROQUIS45_R, mode=Mode.SUBTRACT)
    extrude(amount=SALIENTE_EXTRUIR12_DEPTH)

    # Croquis46 → Saliente-Extruir13 (add)
    with BuildSketch(Plane.XZ.offset(-20)):
        with BuildLine():
            Line((15.25, 0), (20, 0))
            Line((20, 0), (20, 15.25))
            Line((20, 15.25), (7.549834435, 15.25))
            Line((7.549834435, 15.25), (7.549834435, 13.25))
            ThreePointArc((7.549834435, 13.25), (13.185171124, 7.662490615), (15.25, 0))
        make_face()
        with BuildLine():
            Line((-15.25, 0), (-15.25, 15.25))
            Line((-15.25, 15.25), (-7.549834435, 15.25))
            Line((-7.549834435, 15.25), (-7.549834435, 13.25))
            ThreePointArc((-7.549834435, 13.25), (-13.185171124, 7.662490615), (-15.25, 0))
        make_face()
    extrude(amount=-SALIENTE_EXTRUIR13_DEPTH)

    # Croquis47 → Cortar-Extruir40 (cut)
    with BuildSketch(Plane.XY.offset(15.25).offset(CORTAR_EXTRUIR40_START)):
        Polygon((15.41228676, 22.352505966), (17, 25.102505966), (15.41228676, 27.852505966), (12.236860279, 27.852505966), (10.649147039, 25.102505966), (12.236860279, 22.352505966), align=None)
        with Locations((13.824573519, 25.102505966)):
            Circle(CROQUIS47_R, mode=Mode.SUBTRACT)
        Polygon((-12.236860279, 22.352505966), (-15.41228676, 22.352505966), (-17, 25.102505966), (-15.41228676, 27.852505966), (-12.236860279, 27.852505966), (-10.649147039, 25.102505966), align=None)
        with Locations(Location((-13.824573519, 25.102505966, 0), (0, 0, 131.421584744))):
            Circle(CROQUIS47_R, mode=Mode.SUBTRACT)
    extrude(amount=-CORTAR_EXTRUIR40_DEPTH, mode=Mode.SUBTRACT)

    # Croquis48 → Cortar-Extruir41 (cut)
    with BuildSketch(Plane.XY.offset(15.25).offset(CORTAR_EXTRUIR41_START)):
        with Locations((13.824573519, 25.102505966)):
            Circle(CROQUIS48_R)
        with Locations((-13.824573519, 25.102505966)):
            Circle(CROQUIS48_R)
    extrude(amount=CORTAR_EXTRUIR41_DEPTH, mode=Mode.SUBTRACT)

    # Croquis49 → Cortar-Extruir42 (cut, two sides)
    with BuildSketch(Plane.XZ.offset(-20)) as cortar_extruir42_sk:
        with Locations((-37.391633796, 1.105513491)):
            Rectangle(CROQUIS49_W, CROQUIS49_H)
    extrude(amount=CORTAR_EXTRUIR42_DEPTH, mode=Mode.SUBTRACT)
    extrude(cortar_extruir42_sk.sketch, amount=-CORTAR_EXTRUIR42_DEPTH_BACK, mode=Mode.SUBTRACT)

    # Croquis51 → Saliente-Extruir14 (add)
    with BuildSketch(Plane(origin=(0, 30, 0), x_dir=(1, 0, 0), z_dir=(0, 1, 0))):
        Circle(CROQUIS51_R)
        with Locations(Location((0, 0, 0), (0, 0, 270))):
            Circle(CROQUIS51_R_2, mode=Mode.SUBTRACT)
    extrude(amount=-SALIENTE_EXTRUIR14_DEPTH)

    # Croquis52 → Cortar-Extruir43 (cut)
    with BuildSketch(Plane(origin=(0, 0, 13.25), x_dir=(-1, 0, 0), z_dir=(0, 0, -1))):
        Polygon((-10.649147039, 25.102505966), (-12.236860279, 27.852505966), (-15.41228676, 27.852505966), (-17, 25.102505966), (-15.41228676, 22.352505966), (-12.236860279, 22.352505966), align=None)
        Polygon((17, 25.102505966), (15.41228676, 27.852505966), (12.236860279, 27.852505966), (10.649147039, 25.102505966), (12.236860279, 22.352505966), (15.41228676, 22.352505966), align=None)
    extrude(amount=CORTAR_EXTRUIR43_DEPTH, mode=Mode.SUBTRACT)

    # Croquis53 → Cortar-Extruir44 (cut)
    with BuildSketch(Plane.XY.offset(-17)):
        Polygon((3.175426481, 25), (1.58771324, 27.75), (-1.58771324, 27.75), (-3.175426481, 25), (-1.58771324, 22.25), (1.58771324, 22.25), align=None)
    extrude(amount=CORTAR_EXTRUIR44_DEPTH, mode=Mode.SUBTRACT)

    # Croquis54 → Cortar-Extruir45 (cut)
    with BuildSketch(Plane.ZY.offset(-17)):
        Polygon((-4.75, 28.175426481), (-7.5, 26.58771324), (-7.5, 23.41228676), (-4.75, 21.824573519), (-2, 23.41228676), (-2, 26.58771324), align=None)
    extrude(amount=CORTAR_EXTRUIR45_DEPTH, mode=Mode.SUBTRACT)

    # Croquis55 → Saliente-Extruir15 (add)
    with BuildSketch(Plane(origin=(0, 30, 0), x_dir=(1, 0, 0), z_dir=(0, 1, 0))):
        with BuildLine():
            Line((-7.549834435, -13.25), (-7.549834435, -15.25))
            Line((-7.549834435, -15.25), (0, -15.25))
            ThreePointArc((0, -15.25), (-3.905124838, -14.741522988), (-7.549834435, -13.25))
        make_face()
        with BuildLine():
            ThreePointArc((7.549834435, -13.25), (3.905124838, -14.741522988), (0, -15.25))
            Line((0, -15.25), (7.549834435, -15.25))
            Line((7.549834435, -15.25), (7.549834435, -13.25))
        make_face()
    extrude(amount=-SALIENTE_EXTRUIR15_DEPTH)

    # Croquis57 → Cortar-Extruir46 (cut, two sides)
    with BuildSketch(Plane.ZY.offset(27.5)) as cortar_extruir46_sk:
        with Locations((1.32598152, 23.598909176)):
            Rectangle(CROQUIS57_W, CROQUIS57_H)
    extrude(amount=CORTAR_EXTRUIR46_DEPTH, mode=Mode.SUBTRACT)
    extrude(cortar_extruir46_sk.sketch, amount=-CORTAR_EXTRUIR46_DEPTH_BACK, mode=Mode.SUBTRACT)


with BuildPart() as body_2_2_1:
    # Croquis56 → Saliente-Extruir16 (new body)
    with BuildSketch(Plane(origin=(0, 30, 0), x_dir=(1, 0, 0), z_dir=(0, 1, 0))):
        with Locations((0, 1.956478778)):
            Rectangle(CROQUIS56_W, CROQUIS56_H)
        with BuildLine():
            Line((20, -15.25), (20, 15))
            ThreePointArc((20, 15), (18.535533906, 18.535533906), (15, 20))
            Line((15, 20), (-19.993600539, 20))
            Line((-19.993600539, 20), (-19.993600539, -15.25))
            Line((-19.993600539, -15.25), (20, -15.25))
        make_face(mode=Mode.SUBTRACT)
    extrude(amount=SALIENTE_EXTRUIR16_DEPTH)

    # Croquis58 → Cortar-Extruir47 (cut)
    with BuildSketch(Plane.XZ.offset(-30)):
        with Locations(Location((-12.5, 19.25, 0), (0, 0, 270))):
            Circle(CROQUIS58_R)
        with Locations(Location((12.5, 19.25, 0), (0, 0, 270))):
            Circle(CROQUIS58_R)
        with Locations(Location((-12.5, -23.5, 0), (0, 0, 270))):
            Circle(CROQUIS58_R)
        with Locations(Location((12.5, -23.526519471, 0), (0, 0, 270))):
            Circle(CROQUIS58_R)
        with Locations(Location((-23.493600539, 10.125, 0), (0, 0, 270))):
            Circle(CROQUIS58_R)
        with Locations(Location((-23.493600539, -14.875, 0), (0, 0, 270))):
            Circle(CROQUIS58_R)
        with Locations(Location((23.493600539, -14.875, 0), (0, 0, 90))):
            Circle(CROQUIS58_R)
        with Locations(Location((23.493600539, 10.125, 0), (0, 0, 90))):
            Circle(CROQUIS58_R)
    extrude(amount=-CORTAR_EXTRUIR47_DEPTH, mode=Mode.SUBTRACT)


solid = body_2_2_1.part
